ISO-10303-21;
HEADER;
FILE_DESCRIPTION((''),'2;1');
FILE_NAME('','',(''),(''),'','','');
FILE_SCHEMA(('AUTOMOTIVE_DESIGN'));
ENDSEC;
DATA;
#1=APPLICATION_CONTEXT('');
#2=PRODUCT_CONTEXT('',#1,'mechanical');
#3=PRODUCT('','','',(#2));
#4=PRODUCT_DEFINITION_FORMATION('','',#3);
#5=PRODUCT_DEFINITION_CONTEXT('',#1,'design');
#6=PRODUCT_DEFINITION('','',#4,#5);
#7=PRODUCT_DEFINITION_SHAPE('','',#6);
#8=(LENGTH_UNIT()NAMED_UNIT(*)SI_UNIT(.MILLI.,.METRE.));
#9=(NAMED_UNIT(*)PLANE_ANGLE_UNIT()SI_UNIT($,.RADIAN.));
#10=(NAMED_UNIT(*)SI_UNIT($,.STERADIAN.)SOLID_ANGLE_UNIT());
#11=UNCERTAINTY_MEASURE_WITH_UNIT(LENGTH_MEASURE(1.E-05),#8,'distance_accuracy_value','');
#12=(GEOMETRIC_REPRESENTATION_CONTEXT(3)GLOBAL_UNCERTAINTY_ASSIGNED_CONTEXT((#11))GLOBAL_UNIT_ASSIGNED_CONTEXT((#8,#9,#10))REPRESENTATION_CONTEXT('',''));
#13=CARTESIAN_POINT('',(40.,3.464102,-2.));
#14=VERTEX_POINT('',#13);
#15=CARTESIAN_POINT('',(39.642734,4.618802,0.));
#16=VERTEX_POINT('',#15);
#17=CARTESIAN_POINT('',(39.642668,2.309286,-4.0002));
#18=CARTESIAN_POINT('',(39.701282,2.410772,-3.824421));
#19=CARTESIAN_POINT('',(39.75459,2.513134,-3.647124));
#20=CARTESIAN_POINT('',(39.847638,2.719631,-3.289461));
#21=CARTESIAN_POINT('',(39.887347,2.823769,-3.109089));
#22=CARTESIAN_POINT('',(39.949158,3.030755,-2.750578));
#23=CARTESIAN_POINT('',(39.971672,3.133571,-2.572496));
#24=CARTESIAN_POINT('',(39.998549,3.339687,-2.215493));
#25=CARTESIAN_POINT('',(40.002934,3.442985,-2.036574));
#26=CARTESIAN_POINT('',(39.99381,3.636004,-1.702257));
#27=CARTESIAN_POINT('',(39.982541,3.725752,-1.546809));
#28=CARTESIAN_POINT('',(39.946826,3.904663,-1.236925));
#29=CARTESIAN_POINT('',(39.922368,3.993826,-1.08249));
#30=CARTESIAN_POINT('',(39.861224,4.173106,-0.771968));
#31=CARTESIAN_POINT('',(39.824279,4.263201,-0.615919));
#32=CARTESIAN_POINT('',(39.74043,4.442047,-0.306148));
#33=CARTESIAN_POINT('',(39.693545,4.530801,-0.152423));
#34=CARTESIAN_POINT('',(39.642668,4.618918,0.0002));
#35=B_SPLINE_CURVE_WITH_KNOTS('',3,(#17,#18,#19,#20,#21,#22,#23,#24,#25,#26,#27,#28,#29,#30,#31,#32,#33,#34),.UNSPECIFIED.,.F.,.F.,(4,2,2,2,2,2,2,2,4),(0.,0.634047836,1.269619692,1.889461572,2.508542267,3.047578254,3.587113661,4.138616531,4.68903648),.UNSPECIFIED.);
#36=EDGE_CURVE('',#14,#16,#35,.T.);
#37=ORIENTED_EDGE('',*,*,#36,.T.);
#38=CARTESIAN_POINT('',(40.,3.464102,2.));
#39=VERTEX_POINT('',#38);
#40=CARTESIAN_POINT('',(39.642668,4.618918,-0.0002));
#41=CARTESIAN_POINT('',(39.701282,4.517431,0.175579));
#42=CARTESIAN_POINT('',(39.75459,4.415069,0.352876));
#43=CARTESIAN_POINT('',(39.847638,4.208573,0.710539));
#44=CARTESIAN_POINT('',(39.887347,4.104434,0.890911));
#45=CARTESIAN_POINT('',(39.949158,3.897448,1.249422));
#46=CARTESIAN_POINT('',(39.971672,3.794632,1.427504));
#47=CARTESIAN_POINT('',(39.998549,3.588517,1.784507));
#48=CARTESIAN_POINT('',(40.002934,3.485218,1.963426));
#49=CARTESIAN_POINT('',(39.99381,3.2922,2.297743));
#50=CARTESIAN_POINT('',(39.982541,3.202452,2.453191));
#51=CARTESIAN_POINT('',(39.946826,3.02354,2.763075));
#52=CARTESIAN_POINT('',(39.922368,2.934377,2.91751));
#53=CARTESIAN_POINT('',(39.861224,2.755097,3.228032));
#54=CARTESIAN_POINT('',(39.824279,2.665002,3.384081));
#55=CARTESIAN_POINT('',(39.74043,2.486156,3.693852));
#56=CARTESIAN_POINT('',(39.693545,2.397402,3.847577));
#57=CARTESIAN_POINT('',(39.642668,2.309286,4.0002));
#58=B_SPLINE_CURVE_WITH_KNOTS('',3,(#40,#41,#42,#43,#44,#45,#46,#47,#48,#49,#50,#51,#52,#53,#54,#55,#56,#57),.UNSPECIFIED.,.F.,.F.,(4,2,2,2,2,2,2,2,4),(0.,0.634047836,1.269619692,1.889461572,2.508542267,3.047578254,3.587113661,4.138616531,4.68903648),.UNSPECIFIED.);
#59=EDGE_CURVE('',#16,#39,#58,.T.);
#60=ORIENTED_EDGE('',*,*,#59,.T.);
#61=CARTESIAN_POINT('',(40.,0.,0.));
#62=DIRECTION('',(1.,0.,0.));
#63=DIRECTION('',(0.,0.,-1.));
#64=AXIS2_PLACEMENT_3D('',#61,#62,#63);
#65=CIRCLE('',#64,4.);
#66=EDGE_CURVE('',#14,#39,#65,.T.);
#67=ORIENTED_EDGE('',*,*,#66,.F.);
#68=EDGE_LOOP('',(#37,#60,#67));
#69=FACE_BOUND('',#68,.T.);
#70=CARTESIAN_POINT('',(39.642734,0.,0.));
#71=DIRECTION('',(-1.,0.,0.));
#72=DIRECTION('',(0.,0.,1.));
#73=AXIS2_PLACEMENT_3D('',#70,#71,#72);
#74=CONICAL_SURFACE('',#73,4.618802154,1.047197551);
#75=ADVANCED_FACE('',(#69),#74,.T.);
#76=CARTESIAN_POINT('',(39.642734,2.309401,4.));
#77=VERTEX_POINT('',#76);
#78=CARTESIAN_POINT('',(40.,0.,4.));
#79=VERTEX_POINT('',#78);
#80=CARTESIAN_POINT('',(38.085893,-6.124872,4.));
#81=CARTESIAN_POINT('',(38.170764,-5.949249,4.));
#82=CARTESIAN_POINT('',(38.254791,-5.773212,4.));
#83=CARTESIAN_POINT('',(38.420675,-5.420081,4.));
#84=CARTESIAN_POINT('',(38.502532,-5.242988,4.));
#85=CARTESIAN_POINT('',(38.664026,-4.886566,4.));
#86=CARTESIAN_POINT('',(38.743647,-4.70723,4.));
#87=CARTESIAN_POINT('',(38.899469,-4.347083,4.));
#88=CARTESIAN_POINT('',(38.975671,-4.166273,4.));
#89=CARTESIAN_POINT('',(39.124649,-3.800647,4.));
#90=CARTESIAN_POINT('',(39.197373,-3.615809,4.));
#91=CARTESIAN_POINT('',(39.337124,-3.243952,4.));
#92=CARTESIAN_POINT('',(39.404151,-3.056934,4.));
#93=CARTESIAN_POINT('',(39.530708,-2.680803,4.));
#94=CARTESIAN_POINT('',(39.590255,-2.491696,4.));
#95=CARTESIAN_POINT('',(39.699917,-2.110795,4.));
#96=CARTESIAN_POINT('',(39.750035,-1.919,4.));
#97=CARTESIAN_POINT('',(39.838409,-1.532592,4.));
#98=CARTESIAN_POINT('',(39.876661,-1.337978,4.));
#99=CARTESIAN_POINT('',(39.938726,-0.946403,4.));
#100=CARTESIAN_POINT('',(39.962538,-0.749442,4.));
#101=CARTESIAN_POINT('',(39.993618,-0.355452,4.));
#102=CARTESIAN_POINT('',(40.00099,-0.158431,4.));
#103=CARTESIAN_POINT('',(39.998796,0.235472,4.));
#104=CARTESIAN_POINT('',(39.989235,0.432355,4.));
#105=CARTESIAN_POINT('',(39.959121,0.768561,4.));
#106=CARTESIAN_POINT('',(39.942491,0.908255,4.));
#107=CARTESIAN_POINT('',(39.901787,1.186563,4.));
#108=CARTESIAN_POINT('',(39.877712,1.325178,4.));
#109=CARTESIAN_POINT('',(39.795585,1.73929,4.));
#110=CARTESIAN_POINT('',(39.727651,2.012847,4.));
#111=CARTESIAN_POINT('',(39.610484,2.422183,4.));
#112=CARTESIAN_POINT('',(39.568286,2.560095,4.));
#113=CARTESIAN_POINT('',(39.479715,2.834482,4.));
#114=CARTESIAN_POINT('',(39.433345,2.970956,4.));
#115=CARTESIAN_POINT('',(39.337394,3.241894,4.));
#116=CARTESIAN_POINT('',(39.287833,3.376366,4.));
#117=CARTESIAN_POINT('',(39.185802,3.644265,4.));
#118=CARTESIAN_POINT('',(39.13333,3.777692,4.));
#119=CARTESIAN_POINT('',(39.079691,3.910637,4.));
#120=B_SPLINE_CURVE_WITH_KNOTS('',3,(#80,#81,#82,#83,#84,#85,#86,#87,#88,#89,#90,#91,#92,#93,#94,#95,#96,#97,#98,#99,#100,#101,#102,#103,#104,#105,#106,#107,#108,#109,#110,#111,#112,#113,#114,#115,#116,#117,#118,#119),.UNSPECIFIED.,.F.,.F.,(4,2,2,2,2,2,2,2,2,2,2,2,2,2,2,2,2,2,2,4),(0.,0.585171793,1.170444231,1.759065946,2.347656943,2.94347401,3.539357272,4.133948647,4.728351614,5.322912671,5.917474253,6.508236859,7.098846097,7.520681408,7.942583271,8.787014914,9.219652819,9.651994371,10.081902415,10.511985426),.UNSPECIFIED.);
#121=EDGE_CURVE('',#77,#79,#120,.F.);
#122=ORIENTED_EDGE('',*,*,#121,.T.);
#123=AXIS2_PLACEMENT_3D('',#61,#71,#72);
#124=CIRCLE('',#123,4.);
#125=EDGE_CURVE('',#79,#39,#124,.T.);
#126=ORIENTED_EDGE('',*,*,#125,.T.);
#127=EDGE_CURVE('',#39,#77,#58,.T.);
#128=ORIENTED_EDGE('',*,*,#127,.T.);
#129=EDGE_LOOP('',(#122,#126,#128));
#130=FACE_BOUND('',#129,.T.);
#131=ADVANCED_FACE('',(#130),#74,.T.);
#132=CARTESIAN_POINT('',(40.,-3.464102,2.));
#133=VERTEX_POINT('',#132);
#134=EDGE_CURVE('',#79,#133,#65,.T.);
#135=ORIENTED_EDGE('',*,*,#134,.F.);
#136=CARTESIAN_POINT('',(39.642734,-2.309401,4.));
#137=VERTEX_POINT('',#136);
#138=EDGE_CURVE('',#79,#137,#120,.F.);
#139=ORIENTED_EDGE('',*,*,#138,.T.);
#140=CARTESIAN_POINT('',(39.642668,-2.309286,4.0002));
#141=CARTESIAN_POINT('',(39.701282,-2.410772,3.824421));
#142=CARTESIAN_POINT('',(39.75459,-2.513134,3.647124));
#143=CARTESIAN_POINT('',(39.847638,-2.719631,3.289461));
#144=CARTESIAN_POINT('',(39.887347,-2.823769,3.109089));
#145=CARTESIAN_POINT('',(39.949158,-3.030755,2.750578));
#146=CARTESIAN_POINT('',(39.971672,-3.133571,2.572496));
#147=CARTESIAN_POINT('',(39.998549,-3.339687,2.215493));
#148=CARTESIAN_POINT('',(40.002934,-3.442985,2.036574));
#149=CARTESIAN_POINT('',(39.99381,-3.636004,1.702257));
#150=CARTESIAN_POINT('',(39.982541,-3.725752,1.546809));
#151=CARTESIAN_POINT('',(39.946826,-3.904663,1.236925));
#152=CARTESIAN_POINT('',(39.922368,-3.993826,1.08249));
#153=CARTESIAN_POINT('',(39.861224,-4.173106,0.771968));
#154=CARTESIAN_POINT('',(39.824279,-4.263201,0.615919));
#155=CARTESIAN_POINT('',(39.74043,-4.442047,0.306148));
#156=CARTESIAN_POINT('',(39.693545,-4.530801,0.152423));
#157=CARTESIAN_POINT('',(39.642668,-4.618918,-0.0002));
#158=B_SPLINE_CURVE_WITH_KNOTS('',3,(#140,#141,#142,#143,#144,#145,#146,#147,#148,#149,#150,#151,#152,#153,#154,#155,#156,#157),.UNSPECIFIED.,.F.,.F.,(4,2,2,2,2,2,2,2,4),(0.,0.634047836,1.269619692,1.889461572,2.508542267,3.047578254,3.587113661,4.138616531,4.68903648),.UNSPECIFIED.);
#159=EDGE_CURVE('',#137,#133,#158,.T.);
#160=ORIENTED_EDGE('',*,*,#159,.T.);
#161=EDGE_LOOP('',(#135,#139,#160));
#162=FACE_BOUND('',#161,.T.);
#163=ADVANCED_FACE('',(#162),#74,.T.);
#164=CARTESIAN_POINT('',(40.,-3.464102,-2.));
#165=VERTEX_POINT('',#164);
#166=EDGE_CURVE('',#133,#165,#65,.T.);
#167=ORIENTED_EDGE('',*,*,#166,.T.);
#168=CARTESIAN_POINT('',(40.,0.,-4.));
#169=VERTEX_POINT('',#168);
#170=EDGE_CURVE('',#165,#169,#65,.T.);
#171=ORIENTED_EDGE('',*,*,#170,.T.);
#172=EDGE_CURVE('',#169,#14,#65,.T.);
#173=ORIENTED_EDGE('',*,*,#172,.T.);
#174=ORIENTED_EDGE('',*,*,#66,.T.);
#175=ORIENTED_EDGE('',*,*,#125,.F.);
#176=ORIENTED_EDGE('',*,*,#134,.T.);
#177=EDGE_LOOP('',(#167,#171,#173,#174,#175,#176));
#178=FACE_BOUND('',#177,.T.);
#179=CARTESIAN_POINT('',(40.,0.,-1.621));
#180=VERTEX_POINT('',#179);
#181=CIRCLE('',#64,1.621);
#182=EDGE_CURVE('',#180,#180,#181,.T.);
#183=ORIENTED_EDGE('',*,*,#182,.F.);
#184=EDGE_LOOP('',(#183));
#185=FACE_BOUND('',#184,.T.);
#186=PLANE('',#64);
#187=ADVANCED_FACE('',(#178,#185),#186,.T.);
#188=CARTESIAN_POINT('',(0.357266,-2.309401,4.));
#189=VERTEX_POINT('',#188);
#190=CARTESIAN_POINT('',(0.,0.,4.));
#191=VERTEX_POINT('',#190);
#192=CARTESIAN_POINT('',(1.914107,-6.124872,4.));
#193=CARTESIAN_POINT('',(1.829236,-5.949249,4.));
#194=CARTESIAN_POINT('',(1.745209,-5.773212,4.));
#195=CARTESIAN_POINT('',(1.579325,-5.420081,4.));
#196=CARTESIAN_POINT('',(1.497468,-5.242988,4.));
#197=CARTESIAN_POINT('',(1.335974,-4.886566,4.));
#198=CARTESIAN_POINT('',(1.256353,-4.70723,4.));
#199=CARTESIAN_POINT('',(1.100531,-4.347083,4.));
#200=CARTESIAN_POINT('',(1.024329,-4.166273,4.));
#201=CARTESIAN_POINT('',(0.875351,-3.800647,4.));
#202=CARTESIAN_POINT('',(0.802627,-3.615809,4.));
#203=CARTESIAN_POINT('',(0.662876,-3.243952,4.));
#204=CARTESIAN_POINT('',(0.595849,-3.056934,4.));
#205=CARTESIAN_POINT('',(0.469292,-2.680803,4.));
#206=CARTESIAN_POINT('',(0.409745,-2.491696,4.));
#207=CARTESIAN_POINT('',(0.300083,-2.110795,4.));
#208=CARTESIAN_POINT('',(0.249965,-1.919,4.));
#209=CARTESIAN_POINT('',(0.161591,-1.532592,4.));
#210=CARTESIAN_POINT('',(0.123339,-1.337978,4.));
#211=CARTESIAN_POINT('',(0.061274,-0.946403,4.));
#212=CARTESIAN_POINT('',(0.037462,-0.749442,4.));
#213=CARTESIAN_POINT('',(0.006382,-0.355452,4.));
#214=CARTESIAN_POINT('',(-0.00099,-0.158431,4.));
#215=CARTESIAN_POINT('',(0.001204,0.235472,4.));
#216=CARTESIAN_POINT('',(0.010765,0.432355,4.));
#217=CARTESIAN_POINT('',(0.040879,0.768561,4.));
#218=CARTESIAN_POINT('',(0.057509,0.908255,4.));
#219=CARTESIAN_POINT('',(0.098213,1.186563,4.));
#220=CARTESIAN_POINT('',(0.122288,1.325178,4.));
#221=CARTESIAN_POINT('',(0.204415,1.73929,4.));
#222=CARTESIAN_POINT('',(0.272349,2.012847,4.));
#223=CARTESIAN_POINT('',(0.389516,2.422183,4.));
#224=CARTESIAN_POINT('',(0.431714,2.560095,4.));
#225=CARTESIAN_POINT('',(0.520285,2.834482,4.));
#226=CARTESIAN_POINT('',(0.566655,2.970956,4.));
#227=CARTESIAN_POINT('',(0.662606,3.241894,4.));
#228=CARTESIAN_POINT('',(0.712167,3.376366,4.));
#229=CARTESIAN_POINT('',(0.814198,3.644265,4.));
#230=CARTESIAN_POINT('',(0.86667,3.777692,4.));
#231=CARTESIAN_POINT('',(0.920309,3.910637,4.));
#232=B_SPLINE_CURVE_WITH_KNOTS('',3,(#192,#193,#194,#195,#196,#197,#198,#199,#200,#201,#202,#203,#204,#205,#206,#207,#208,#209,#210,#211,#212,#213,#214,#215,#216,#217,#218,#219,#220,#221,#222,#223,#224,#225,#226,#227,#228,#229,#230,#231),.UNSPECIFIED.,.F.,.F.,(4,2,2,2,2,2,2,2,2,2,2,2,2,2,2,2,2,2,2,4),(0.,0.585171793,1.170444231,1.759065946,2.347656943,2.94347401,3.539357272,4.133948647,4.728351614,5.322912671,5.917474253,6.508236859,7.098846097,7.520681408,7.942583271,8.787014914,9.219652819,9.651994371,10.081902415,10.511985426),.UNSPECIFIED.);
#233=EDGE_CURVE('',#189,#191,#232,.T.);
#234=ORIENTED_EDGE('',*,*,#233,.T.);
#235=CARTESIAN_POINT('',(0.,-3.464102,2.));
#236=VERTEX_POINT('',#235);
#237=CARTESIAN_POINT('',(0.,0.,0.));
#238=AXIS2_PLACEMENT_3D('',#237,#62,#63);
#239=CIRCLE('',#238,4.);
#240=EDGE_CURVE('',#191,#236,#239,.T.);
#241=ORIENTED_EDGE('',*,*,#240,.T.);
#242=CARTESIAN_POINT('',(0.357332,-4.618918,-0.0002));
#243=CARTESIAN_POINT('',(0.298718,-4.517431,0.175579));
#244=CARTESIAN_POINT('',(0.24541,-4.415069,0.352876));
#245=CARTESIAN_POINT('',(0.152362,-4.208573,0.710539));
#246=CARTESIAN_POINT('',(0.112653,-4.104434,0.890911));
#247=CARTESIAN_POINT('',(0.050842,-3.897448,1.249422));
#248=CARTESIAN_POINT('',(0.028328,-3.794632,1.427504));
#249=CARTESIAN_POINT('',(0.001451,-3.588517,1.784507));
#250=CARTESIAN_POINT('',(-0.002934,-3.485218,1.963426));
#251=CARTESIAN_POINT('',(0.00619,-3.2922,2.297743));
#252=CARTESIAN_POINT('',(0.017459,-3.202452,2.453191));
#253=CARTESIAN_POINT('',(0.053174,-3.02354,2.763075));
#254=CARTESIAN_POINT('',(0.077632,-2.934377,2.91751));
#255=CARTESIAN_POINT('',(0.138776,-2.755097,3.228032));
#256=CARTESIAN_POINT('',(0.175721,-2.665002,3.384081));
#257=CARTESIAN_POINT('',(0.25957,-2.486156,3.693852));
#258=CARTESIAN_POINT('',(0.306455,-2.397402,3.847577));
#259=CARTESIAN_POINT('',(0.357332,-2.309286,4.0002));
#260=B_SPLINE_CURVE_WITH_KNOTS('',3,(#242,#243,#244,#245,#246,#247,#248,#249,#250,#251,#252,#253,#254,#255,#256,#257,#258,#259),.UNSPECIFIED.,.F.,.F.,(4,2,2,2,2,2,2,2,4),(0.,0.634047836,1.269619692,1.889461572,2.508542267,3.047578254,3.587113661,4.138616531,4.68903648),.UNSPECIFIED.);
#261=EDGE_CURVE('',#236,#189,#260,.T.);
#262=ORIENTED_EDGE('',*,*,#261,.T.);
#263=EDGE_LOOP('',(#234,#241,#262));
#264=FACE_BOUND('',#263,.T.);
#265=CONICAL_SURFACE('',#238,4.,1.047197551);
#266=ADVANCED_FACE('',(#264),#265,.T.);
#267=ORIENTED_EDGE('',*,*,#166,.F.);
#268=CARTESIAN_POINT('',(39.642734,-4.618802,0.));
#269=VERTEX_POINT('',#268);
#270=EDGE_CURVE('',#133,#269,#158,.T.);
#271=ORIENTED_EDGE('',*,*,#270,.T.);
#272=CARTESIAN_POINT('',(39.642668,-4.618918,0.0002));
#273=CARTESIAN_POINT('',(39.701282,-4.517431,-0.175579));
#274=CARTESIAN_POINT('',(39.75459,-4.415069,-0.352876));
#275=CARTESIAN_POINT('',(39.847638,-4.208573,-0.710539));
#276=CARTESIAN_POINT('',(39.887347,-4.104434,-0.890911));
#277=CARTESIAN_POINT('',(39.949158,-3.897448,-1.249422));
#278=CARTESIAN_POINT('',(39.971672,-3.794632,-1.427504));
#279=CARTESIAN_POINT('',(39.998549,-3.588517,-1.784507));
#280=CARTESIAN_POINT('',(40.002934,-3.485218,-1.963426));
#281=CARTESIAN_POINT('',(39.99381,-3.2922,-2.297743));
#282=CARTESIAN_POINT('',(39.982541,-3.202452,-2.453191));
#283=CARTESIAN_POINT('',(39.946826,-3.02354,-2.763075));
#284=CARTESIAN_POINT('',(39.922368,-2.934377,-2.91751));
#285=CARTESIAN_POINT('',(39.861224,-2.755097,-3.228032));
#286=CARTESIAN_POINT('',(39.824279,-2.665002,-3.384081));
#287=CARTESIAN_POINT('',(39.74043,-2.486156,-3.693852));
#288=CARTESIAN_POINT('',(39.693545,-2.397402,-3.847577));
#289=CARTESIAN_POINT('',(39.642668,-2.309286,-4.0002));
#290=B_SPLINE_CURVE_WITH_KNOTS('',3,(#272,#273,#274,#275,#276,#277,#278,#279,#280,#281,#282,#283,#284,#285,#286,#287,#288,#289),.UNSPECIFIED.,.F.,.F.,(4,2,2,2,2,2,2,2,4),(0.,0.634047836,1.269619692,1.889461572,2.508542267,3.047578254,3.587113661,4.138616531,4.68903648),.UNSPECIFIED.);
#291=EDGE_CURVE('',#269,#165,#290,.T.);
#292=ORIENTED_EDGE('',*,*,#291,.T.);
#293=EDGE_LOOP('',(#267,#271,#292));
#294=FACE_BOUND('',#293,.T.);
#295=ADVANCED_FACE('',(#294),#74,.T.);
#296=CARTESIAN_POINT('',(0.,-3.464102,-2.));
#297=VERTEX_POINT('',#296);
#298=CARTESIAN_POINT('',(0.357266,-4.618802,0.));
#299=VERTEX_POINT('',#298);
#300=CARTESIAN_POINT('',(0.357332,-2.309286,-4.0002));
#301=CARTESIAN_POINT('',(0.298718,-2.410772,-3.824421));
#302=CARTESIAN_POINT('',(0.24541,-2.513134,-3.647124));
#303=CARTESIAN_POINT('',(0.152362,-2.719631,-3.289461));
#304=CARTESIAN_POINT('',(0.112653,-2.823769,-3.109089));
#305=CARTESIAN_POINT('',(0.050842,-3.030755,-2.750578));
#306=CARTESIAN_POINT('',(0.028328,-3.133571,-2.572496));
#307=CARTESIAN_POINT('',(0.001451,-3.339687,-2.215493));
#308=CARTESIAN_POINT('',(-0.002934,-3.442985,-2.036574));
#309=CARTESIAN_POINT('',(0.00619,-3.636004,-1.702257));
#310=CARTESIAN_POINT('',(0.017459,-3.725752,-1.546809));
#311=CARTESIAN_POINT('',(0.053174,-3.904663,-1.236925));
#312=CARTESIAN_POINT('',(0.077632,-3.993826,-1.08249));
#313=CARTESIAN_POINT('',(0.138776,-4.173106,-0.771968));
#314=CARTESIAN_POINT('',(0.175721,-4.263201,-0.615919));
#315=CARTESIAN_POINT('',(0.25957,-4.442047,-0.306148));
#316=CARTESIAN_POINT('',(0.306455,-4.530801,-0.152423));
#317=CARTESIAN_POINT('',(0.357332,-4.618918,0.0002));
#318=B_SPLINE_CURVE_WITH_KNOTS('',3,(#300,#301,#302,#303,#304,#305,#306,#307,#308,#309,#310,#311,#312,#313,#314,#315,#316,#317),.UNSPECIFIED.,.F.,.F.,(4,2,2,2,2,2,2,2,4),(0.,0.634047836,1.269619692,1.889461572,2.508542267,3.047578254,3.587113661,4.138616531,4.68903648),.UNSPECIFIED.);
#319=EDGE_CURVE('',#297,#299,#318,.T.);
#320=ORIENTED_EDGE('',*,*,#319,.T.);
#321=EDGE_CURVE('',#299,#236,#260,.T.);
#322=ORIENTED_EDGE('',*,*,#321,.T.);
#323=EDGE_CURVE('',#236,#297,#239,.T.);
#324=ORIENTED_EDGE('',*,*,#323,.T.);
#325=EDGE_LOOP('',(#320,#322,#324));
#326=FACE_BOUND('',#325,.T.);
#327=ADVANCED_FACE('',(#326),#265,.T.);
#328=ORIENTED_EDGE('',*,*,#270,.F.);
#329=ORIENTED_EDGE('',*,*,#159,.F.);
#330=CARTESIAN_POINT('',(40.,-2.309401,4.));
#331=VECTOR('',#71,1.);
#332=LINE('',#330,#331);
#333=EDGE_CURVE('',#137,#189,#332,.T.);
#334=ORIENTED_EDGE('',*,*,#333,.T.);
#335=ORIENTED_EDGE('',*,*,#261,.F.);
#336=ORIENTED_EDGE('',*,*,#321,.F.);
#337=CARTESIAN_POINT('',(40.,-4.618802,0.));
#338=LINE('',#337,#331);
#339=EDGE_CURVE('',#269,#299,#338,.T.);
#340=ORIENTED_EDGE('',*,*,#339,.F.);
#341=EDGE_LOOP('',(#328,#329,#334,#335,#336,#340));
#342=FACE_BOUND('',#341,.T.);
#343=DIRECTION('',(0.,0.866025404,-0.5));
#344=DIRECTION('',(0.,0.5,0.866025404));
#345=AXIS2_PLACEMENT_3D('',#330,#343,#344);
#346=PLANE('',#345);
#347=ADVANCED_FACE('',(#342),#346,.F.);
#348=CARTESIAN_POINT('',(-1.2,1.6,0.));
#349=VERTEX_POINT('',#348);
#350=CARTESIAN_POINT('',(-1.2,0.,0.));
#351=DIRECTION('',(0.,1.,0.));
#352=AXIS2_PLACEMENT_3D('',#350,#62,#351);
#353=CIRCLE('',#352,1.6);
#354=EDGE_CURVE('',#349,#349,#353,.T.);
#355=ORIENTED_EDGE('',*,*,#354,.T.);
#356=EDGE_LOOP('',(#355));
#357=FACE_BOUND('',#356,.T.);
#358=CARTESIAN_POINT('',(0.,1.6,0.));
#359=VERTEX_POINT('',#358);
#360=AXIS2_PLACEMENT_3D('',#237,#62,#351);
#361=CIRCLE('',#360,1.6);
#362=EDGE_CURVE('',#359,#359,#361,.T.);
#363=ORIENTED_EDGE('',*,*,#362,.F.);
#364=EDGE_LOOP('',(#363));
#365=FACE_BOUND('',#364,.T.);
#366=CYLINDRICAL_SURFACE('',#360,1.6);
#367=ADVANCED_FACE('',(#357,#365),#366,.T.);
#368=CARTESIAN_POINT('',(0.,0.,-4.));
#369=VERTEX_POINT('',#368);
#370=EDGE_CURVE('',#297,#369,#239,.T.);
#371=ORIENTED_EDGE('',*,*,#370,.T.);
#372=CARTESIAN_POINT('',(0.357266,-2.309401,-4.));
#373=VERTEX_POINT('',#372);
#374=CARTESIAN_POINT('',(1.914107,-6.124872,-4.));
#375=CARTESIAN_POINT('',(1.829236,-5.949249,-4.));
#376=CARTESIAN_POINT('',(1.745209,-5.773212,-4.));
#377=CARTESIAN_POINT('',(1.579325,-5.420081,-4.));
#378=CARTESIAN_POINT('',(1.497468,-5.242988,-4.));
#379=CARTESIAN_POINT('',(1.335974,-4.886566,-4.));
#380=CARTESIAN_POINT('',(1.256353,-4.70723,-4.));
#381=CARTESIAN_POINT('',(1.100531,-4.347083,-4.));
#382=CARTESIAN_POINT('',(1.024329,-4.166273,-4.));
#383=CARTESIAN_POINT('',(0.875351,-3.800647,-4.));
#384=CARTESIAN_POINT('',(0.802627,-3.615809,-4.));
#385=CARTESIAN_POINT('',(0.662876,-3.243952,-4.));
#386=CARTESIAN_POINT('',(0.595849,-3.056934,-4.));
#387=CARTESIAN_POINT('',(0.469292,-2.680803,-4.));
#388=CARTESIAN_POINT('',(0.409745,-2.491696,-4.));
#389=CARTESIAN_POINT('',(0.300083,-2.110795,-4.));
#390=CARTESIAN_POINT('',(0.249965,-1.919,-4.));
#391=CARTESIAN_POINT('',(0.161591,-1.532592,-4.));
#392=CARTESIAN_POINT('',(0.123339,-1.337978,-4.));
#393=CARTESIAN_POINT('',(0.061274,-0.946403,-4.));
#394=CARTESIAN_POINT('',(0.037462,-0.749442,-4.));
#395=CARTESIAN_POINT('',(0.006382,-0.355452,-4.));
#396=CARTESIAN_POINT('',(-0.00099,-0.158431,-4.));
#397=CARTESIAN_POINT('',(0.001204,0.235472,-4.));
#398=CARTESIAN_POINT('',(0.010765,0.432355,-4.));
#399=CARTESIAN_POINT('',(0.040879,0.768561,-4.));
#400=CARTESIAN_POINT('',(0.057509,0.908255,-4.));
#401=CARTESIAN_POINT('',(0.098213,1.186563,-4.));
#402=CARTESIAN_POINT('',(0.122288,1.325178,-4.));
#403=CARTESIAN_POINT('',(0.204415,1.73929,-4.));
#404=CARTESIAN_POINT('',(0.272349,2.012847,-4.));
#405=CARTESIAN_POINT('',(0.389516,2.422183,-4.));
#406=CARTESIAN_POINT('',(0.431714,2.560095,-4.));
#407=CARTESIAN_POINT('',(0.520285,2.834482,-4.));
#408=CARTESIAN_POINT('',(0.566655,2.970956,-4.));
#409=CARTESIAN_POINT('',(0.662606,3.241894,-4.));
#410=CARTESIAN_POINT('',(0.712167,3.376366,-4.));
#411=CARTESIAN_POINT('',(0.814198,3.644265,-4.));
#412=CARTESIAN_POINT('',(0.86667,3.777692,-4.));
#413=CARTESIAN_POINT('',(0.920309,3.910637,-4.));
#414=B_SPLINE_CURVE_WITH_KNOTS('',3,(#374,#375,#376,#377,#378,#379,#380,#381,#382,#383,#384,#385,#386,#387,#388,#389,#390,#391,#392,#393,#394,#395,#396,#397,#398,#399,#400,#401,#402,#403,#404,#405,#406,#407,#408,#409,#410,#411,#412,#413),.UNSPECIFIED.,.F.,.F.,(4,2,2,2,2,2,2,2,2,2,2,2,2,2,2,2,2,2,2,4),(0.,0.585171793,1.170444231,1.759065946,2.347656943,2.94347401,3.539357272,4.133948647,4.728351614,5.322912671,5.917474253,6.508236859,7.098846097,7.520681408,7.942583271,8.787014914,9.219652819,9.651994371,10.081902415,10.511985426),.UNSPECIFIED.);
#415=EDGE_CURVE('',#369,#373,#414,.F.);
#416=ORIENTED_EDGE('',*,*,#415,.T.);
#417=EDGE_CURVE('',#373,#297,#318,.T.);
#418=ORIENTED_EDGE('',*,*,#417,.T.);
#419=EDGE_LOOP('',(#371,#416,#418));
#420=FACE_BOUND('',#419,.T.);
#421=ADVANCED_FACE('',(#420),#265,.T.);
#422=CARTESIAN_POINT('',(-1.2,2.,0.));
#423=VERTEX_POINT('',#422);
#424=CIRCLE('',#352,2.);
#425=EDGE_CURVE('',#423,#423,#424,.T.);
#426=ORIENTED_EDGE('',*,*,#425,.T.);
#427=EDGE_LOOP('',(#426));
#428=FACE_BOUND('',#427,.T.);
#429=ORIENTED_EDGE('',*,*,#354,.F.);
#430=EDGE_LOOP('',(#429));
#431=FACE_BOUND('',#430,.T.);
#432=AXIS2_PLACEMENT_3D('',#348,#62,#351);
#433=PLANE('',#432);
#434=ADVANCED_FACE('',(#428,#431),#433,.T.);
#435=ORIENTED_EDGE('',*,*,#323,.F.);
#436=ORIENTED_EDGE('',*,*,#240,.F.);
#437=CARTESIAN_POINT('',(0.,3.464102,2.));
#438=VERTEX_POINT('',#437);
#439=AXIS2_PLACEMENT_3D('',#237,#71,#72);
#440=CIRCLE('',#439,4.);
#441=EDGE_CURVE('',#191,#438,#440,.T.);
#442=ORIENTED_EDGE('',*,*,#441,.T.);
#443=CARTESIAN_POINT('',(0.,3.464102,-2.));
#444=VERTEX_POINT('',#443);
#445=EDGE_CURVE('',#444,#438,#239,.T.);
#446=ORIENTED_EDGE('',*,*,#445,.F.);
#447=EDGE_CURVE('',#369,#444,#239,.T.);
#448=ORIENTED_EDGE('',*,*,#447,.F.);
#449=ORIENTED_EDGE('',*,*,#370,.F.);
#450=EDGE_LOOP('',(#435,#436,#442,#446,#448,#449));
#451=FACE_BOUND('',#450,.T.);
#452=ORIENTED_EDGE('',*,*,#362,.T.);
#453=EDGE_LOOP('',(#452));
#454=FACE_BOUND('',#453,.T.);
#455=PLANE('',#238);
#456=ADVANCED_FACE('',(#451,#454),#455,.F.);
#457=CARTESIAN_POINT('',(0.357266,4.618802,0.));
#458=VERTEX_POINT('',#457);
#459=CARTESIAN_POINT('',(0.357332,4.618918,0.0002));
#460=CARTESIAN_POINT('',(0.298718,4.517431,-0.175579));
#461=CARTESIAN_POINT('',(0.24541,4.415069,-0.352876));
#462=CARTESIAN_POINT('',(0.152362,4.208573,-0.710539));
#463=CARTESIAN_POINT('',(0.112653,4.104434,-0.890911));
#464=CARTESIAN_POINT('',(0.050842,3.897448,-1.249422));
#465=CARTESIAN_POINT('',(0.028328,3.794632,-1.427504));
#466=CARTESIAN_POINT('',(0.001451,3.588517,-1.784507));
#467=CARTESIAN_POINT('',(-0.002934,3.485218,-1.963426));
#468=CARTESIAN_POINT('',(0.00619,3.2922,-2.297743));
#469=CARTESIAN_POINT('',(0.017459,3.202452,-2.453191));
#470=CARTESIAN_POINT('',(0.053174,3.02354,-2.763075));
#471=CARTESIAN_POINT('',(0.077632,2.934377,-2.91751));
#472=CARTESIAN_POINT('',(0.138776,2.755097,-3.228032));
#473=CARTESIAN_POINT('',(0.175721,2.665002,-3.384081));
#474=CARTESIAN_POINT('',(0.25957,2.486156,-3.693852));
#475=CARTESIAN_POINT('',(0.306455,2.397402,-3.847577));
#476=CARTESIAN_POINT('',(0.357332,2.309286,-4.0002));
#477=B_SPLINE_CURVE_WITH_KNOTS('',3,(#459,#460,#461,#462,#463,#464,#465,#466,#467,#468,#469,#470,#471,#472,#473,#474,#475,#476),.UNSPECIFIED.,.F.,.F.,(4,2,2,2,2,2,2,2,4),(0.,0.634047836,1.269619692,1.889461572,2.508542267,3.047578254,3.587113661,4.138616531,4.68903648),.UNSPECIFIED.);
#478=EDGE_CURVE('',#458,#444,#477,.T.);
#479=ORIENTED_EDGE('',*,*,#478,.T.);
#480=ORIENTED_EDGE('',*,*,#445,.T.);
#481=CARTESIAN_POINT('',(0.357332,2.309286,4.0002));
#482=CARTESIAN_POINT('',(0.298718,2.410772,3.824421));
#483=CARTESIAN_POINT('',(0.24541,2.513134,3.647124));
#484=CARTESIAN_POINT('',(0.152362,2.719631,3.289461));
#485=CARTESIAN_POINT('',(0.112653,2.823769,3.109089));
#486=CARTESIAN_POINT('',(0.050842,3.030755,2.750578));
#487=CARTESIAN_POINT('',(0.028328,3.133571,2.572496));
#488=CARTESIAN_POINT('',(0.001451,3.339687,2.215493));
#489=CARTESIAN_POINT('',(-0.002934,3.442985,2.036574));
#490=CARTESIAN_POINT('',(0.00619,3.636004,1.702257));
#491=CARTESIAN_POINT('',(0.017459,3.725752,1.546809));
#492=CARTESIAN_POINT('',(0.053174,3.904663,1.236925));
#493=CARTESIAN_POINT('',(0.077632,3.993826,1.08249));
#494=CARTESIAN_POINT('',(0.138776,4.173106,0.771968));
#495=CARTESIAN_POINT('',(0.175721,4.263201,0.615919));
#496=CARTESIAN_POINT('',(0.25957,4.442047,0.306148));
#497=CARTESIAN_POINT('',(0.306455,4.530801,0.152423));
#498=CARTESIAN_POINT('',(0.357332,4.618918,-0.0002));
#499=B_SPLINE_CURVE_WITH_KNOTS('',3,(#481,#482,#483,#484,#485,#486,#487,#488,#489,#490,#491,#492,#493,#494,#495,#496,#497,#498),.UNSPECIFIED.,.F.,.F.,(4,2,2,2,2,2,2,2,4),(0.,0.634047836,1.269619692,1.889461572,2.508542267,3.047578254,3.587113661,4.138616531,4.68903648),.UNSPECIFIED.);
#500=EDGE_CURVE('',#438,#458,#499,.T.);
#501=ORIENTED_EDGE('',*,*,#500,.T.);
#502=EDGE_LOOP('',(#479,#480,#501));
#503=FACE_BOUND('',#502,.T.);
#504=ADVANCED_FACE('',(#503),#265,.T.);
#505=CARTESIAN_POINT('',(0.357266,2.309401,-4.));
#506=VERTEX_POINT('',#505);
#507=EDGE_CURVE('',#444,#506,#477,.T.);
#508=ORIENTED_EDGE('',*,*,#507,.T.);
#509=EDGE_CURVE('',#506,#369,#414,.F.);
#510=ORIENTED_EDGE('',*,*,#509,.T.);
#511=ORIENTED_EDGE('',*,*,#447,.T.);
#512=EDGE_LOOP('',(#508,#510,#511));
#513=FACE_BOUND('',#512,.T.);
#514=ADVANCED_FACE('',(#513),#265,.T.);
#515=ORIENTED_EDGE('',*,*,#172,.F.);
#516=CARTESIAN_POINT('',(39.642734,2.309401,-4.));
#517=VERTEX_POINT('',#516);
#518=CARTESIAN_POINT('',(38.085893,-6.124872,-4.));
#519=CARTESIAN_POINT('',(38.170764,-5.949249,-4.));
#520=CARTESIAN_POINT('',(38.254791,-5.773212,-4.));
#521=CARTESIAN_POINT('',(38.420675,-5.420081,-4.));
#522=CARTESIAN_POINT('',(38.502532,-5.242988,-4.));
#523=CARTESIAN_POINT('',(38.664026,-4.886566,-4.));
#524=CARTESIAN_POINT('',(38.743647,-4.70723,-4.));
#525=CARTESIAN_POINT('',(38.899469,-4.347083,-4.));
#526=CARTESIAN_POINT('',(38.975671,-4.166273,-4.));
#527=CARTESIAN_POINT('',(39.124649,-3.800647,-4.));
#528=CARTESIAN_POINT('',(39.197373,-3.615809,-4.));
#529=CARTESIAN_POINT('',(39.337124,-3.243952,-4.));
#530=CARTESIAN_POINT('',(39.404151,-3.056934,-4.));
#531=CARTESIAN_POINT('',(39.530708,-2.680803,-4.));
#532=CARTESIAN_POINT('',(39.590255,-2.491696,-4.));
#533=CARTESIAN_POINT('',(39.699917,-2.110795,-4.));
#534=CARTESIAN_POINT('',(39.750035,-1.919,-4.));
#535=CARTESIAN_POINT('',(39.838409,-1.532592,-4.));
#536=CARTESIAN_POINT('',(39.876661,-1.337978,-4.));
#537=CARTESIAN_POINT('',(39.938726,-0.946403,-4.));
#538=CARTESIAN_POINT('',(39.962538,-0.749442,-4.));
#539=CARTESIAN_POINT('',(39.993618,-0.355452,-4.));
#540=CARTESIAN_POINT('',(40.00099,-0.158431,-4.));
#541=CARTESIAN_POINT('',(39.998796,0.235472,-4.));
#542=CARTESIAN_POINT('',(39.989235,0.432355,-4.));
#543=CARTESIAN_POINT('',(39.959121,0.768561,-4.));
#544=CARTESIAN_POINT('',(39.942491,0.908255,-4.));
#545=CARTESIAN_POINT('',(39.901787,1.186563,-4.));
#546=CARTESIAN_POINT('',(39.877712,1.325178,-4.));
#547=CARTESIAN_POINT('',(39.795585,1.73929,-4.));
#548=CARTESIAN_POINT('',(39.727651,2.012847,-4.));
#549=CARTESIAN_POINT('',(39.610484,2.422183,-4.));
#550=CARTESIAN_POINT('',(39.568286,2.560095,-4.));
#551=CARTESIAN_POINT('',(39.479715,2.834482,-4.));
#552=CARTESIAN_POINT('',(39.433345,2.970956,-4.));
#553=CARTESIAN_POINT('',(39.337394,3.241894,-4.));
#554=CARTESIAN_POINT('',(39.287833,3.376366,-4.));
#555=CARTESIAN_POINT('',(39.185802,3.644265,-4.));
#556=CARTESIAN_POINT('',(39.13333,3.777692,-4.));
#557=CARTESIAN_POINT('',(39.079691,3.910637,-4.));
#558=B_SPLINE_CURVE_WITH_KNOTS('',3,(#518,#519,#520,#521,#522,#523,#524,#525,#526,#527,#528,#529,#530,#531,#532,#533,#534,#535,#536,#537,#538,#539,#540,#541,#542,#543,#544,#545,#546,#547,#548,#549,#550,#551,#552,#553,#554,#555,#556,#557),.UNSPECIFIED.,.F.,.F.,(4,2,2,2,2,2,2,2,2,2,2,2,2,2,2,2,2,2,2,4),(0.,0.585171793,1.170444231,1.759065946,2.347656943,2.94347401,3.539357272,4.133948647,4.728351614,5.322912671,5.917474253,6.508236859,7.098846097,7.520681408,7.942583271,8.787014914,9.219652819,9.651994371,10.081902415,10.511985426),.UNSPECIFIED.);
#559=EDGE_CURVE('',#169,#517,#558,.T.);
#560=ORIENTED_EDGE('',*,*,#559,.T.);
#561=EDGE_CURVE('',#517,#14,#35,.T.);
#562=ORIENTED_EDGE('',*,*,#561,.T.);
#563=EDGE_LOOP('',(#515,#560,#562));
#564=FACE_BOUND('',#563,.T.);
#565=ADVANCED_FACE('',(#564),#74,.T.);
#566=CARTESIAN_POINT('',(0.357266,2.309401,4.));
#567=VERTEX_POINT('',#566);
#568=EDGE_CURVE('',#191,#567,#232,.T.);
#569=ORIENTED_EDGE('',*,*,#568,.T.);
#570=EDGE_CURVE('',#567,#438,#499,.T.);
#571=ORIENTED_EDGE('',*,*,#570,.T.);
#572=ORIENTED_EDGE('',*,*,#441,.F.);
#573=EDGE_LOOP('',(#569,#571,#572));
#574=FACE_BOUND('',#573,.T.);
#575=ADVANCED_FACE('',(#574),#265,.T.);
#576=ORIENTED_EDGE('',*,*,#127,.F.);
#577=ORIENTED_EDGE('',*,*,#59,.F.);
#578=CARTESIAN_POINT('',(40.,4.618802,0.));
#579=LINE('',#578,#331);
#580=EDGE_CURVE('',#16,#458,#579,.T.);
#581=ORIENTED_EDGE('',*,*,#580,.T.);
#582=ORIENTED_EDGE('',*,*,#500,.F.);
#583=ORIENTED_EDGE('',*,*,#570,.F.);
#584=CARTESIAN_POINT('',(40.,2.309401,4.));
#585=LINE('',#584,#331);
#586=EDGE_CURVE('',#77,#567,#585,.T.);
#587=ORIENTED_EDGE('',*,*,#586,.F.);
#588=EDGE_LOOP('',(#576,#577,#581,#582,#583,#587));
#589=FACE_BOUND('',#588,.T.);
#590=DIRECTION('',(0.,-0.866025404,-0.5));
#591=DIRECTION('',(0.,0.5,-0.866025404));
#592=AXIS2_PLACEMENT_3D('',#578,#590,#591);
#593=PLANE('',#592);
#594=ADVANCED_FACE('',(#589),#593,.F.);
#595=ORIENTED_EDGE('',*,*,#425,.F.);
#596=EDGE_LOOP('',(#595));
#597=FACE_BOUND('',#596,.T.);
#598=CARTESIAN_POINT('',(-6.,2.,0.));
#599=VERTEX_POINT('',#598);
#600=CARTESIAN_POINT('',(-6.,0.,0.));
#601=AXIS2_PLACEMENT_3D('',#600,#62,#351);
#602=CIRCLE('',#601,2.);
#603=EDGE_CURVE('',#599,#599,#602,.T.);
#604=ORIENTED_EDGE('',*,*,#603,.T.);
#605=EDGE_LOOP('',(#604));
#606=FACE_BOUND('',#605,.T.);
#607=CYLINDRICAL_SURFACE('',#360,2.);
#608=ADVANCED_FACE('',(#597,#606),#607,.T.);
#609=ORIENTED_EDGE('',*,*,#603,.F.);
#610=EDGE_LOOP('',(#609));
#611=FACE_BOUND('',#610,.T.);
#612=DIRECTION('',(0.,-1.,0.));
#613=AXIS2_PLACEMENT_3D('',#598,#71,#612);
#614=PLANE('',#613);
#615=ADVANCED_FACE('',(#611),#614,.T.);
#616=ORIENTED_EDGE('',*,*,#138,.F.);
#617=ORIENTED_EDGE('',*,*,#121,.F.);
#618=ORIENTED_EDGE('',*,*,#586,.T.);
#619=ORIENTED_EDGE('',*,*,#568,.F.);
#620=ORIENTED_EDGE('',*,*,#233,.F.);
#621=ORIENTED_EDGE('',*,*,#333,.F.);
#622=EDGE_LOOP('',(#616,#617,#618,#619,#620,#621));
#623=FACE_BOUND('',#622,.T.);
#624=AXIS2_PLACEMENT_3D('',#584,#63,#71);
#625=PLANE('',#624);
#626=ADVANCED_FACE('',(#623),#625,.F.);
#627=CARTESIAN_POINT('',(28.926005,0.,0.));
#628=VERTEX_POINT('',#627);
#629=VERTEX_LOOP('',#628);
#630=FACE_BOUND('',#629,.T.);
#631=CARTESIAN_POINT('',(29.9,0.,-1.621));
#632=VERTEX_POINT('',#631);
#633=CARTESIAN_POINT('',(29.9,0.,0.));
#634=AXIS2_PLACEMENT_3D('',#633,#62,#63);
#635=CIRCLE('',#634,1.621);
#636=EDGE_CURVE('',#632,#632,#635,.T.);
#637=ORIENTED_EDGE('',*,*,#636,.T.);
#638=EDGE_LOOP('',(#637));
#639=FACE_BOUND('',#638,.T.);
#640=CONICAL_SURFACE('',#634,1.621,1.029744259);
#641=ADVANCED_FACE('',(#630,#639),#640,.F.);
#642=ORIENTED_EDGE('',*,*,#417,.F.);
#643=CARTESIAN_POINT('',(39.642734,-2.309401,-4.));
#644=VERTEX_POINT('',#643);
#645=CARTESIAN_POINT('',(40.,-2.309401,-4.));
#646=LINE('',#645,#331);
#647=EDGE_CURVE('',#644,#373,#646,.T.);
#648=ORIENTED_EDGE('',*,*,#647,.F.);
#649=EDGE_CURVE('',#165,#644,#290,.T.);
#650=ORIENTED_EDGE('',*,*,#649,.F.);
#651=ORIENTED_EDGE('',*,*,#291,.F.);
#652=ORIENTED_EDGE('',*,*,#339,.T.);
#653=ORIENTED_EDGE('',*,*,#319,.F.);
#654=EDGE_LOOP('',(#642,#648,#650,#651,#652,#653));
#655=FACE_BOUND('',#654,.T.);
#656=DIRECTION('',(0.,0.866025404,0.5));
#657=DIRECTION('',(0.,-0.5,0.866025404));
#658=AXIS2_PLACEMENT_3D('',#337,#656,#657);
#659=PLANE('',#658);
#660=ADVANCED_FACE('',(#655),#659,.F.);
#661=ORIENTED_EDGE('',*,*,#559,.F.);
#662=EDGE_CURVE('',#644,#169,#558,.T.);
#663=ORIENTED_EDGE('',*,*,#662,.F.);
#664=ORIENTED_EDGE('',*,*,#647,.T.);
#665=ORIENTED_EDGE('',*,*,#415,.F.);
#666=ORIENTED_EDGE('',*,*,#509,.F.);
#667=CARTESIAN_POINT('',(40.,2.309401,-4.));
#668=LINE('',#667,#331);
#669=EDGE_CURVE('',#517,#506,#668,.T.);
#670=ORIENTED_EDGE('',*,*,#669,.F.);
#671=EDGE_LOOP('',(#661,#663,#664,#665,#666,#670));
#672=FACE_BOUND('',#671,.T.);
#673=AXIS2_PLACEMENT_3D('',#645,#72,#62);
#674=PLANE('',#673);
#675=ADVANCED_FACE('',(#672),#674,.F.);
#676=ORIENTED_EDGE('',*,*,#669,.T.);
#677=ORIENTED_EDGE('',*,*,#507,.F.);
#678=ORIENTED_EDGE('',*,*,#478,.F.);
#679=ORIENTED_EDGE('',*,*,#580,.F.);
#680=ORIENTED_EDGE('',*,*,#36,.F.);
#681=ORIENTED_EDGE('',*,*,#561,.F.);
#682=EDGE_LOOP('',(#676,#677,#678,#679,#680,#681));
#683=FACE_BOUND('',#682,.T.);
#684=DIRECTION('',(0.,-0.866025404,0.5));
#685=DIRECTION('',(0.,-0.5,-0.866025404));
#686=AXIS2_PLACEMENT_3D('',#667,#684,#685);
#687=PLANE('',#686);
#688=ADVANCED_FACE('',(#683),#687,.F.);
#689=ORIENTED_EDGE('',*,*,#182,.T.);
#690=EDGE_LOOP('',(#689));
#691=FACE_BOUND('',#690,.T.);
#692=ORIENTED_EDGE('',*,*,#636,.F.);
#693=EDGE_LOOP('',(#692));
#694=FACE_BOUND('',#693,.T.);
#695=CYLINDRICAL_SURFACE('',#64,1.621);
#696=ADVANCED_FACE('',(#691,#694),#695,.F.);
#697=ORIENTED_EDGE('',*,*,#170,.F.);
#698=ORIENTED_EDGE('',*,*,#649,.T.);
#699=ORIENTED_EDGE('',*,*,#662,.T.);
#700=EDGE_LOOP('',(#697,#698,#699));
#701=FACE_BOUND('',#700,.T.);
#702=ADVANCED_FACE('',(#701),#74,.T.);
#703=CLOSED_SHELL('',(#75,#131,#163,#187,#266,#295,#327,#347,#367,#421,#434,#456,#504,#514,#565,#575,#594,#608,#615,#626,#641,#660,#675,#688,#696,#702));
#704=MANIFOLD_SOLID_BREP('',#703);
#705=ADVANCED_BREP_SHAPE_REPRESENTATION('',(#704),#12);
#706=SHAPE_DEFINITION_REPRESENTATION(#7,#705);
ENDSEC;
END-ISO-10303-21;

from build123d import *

# Parameters (mm, degrees)
BOSS_EXTRUDE1_DEPTH = 40
TAP4_D              = 3.242
TAP4_DEPTH          = 10.1
TAP4_TIP            = 0.973995063


with BuildPart() as part:
    # Sketch1 → Boss-Extrude1 (new body)
    with BuildSketch(Plane(origin=(0, 0, 0), x_dir=(0, 0, -1), z_dir=(1, 0, 0))):
        Polygon((0, 4.618802154), (-4, 2.309401077), (-4, -2.309401077), (0, -4.618802154), (4, -2.309401077), (4, 2.309401077), align=None)
    extrude(amount=BOSS_EXTRUDE1_DEPTH)

    # Sketch2 → Cut-Revolve1 (revolve, cut)
    with BuildSketch(Plane.XY):
        Polygon((0, 4.618802154), (0, 4), (0.35726559, 4.618802154), align=None)
        Polygon((39.64273441, 4.618802154), (40, 4.618802154), (40, 4), align=None)
    revolve(axis=Axis((0, 0, 0), (1, 0, 0)), mode=Mode.SUBTRACT)

    # Sketch11 → Revolve3 (revolve)
    with BuildSketch(Plane.XY):
        Polygon((0, 0), (0, 1.6), (-1.2, 1.6), (-1.2, 2), (-6, 2), (-6, 0), align=None)
    revolve(axis=Axis((0, 0, 0), (-1, 0, 0)))

    # Tap4
    with Locations(Plane(origin=(40, 0, 0), x_dir=(0, 0, -1), z_dir=(1, 0, 0))):
        with Locations((0, 0)):
            Hole(TAP4_D / 2, depth=TAP4_DEPTH)
            with Locations((0, 0, -(TAP4_DEPTH + TAP4_TIP / 2))):  # 118° drill point
                Cone(0, TAP4_D / 2, TAP4_TIP, mode=Mode.SUBTRACT)


solid = part.part
